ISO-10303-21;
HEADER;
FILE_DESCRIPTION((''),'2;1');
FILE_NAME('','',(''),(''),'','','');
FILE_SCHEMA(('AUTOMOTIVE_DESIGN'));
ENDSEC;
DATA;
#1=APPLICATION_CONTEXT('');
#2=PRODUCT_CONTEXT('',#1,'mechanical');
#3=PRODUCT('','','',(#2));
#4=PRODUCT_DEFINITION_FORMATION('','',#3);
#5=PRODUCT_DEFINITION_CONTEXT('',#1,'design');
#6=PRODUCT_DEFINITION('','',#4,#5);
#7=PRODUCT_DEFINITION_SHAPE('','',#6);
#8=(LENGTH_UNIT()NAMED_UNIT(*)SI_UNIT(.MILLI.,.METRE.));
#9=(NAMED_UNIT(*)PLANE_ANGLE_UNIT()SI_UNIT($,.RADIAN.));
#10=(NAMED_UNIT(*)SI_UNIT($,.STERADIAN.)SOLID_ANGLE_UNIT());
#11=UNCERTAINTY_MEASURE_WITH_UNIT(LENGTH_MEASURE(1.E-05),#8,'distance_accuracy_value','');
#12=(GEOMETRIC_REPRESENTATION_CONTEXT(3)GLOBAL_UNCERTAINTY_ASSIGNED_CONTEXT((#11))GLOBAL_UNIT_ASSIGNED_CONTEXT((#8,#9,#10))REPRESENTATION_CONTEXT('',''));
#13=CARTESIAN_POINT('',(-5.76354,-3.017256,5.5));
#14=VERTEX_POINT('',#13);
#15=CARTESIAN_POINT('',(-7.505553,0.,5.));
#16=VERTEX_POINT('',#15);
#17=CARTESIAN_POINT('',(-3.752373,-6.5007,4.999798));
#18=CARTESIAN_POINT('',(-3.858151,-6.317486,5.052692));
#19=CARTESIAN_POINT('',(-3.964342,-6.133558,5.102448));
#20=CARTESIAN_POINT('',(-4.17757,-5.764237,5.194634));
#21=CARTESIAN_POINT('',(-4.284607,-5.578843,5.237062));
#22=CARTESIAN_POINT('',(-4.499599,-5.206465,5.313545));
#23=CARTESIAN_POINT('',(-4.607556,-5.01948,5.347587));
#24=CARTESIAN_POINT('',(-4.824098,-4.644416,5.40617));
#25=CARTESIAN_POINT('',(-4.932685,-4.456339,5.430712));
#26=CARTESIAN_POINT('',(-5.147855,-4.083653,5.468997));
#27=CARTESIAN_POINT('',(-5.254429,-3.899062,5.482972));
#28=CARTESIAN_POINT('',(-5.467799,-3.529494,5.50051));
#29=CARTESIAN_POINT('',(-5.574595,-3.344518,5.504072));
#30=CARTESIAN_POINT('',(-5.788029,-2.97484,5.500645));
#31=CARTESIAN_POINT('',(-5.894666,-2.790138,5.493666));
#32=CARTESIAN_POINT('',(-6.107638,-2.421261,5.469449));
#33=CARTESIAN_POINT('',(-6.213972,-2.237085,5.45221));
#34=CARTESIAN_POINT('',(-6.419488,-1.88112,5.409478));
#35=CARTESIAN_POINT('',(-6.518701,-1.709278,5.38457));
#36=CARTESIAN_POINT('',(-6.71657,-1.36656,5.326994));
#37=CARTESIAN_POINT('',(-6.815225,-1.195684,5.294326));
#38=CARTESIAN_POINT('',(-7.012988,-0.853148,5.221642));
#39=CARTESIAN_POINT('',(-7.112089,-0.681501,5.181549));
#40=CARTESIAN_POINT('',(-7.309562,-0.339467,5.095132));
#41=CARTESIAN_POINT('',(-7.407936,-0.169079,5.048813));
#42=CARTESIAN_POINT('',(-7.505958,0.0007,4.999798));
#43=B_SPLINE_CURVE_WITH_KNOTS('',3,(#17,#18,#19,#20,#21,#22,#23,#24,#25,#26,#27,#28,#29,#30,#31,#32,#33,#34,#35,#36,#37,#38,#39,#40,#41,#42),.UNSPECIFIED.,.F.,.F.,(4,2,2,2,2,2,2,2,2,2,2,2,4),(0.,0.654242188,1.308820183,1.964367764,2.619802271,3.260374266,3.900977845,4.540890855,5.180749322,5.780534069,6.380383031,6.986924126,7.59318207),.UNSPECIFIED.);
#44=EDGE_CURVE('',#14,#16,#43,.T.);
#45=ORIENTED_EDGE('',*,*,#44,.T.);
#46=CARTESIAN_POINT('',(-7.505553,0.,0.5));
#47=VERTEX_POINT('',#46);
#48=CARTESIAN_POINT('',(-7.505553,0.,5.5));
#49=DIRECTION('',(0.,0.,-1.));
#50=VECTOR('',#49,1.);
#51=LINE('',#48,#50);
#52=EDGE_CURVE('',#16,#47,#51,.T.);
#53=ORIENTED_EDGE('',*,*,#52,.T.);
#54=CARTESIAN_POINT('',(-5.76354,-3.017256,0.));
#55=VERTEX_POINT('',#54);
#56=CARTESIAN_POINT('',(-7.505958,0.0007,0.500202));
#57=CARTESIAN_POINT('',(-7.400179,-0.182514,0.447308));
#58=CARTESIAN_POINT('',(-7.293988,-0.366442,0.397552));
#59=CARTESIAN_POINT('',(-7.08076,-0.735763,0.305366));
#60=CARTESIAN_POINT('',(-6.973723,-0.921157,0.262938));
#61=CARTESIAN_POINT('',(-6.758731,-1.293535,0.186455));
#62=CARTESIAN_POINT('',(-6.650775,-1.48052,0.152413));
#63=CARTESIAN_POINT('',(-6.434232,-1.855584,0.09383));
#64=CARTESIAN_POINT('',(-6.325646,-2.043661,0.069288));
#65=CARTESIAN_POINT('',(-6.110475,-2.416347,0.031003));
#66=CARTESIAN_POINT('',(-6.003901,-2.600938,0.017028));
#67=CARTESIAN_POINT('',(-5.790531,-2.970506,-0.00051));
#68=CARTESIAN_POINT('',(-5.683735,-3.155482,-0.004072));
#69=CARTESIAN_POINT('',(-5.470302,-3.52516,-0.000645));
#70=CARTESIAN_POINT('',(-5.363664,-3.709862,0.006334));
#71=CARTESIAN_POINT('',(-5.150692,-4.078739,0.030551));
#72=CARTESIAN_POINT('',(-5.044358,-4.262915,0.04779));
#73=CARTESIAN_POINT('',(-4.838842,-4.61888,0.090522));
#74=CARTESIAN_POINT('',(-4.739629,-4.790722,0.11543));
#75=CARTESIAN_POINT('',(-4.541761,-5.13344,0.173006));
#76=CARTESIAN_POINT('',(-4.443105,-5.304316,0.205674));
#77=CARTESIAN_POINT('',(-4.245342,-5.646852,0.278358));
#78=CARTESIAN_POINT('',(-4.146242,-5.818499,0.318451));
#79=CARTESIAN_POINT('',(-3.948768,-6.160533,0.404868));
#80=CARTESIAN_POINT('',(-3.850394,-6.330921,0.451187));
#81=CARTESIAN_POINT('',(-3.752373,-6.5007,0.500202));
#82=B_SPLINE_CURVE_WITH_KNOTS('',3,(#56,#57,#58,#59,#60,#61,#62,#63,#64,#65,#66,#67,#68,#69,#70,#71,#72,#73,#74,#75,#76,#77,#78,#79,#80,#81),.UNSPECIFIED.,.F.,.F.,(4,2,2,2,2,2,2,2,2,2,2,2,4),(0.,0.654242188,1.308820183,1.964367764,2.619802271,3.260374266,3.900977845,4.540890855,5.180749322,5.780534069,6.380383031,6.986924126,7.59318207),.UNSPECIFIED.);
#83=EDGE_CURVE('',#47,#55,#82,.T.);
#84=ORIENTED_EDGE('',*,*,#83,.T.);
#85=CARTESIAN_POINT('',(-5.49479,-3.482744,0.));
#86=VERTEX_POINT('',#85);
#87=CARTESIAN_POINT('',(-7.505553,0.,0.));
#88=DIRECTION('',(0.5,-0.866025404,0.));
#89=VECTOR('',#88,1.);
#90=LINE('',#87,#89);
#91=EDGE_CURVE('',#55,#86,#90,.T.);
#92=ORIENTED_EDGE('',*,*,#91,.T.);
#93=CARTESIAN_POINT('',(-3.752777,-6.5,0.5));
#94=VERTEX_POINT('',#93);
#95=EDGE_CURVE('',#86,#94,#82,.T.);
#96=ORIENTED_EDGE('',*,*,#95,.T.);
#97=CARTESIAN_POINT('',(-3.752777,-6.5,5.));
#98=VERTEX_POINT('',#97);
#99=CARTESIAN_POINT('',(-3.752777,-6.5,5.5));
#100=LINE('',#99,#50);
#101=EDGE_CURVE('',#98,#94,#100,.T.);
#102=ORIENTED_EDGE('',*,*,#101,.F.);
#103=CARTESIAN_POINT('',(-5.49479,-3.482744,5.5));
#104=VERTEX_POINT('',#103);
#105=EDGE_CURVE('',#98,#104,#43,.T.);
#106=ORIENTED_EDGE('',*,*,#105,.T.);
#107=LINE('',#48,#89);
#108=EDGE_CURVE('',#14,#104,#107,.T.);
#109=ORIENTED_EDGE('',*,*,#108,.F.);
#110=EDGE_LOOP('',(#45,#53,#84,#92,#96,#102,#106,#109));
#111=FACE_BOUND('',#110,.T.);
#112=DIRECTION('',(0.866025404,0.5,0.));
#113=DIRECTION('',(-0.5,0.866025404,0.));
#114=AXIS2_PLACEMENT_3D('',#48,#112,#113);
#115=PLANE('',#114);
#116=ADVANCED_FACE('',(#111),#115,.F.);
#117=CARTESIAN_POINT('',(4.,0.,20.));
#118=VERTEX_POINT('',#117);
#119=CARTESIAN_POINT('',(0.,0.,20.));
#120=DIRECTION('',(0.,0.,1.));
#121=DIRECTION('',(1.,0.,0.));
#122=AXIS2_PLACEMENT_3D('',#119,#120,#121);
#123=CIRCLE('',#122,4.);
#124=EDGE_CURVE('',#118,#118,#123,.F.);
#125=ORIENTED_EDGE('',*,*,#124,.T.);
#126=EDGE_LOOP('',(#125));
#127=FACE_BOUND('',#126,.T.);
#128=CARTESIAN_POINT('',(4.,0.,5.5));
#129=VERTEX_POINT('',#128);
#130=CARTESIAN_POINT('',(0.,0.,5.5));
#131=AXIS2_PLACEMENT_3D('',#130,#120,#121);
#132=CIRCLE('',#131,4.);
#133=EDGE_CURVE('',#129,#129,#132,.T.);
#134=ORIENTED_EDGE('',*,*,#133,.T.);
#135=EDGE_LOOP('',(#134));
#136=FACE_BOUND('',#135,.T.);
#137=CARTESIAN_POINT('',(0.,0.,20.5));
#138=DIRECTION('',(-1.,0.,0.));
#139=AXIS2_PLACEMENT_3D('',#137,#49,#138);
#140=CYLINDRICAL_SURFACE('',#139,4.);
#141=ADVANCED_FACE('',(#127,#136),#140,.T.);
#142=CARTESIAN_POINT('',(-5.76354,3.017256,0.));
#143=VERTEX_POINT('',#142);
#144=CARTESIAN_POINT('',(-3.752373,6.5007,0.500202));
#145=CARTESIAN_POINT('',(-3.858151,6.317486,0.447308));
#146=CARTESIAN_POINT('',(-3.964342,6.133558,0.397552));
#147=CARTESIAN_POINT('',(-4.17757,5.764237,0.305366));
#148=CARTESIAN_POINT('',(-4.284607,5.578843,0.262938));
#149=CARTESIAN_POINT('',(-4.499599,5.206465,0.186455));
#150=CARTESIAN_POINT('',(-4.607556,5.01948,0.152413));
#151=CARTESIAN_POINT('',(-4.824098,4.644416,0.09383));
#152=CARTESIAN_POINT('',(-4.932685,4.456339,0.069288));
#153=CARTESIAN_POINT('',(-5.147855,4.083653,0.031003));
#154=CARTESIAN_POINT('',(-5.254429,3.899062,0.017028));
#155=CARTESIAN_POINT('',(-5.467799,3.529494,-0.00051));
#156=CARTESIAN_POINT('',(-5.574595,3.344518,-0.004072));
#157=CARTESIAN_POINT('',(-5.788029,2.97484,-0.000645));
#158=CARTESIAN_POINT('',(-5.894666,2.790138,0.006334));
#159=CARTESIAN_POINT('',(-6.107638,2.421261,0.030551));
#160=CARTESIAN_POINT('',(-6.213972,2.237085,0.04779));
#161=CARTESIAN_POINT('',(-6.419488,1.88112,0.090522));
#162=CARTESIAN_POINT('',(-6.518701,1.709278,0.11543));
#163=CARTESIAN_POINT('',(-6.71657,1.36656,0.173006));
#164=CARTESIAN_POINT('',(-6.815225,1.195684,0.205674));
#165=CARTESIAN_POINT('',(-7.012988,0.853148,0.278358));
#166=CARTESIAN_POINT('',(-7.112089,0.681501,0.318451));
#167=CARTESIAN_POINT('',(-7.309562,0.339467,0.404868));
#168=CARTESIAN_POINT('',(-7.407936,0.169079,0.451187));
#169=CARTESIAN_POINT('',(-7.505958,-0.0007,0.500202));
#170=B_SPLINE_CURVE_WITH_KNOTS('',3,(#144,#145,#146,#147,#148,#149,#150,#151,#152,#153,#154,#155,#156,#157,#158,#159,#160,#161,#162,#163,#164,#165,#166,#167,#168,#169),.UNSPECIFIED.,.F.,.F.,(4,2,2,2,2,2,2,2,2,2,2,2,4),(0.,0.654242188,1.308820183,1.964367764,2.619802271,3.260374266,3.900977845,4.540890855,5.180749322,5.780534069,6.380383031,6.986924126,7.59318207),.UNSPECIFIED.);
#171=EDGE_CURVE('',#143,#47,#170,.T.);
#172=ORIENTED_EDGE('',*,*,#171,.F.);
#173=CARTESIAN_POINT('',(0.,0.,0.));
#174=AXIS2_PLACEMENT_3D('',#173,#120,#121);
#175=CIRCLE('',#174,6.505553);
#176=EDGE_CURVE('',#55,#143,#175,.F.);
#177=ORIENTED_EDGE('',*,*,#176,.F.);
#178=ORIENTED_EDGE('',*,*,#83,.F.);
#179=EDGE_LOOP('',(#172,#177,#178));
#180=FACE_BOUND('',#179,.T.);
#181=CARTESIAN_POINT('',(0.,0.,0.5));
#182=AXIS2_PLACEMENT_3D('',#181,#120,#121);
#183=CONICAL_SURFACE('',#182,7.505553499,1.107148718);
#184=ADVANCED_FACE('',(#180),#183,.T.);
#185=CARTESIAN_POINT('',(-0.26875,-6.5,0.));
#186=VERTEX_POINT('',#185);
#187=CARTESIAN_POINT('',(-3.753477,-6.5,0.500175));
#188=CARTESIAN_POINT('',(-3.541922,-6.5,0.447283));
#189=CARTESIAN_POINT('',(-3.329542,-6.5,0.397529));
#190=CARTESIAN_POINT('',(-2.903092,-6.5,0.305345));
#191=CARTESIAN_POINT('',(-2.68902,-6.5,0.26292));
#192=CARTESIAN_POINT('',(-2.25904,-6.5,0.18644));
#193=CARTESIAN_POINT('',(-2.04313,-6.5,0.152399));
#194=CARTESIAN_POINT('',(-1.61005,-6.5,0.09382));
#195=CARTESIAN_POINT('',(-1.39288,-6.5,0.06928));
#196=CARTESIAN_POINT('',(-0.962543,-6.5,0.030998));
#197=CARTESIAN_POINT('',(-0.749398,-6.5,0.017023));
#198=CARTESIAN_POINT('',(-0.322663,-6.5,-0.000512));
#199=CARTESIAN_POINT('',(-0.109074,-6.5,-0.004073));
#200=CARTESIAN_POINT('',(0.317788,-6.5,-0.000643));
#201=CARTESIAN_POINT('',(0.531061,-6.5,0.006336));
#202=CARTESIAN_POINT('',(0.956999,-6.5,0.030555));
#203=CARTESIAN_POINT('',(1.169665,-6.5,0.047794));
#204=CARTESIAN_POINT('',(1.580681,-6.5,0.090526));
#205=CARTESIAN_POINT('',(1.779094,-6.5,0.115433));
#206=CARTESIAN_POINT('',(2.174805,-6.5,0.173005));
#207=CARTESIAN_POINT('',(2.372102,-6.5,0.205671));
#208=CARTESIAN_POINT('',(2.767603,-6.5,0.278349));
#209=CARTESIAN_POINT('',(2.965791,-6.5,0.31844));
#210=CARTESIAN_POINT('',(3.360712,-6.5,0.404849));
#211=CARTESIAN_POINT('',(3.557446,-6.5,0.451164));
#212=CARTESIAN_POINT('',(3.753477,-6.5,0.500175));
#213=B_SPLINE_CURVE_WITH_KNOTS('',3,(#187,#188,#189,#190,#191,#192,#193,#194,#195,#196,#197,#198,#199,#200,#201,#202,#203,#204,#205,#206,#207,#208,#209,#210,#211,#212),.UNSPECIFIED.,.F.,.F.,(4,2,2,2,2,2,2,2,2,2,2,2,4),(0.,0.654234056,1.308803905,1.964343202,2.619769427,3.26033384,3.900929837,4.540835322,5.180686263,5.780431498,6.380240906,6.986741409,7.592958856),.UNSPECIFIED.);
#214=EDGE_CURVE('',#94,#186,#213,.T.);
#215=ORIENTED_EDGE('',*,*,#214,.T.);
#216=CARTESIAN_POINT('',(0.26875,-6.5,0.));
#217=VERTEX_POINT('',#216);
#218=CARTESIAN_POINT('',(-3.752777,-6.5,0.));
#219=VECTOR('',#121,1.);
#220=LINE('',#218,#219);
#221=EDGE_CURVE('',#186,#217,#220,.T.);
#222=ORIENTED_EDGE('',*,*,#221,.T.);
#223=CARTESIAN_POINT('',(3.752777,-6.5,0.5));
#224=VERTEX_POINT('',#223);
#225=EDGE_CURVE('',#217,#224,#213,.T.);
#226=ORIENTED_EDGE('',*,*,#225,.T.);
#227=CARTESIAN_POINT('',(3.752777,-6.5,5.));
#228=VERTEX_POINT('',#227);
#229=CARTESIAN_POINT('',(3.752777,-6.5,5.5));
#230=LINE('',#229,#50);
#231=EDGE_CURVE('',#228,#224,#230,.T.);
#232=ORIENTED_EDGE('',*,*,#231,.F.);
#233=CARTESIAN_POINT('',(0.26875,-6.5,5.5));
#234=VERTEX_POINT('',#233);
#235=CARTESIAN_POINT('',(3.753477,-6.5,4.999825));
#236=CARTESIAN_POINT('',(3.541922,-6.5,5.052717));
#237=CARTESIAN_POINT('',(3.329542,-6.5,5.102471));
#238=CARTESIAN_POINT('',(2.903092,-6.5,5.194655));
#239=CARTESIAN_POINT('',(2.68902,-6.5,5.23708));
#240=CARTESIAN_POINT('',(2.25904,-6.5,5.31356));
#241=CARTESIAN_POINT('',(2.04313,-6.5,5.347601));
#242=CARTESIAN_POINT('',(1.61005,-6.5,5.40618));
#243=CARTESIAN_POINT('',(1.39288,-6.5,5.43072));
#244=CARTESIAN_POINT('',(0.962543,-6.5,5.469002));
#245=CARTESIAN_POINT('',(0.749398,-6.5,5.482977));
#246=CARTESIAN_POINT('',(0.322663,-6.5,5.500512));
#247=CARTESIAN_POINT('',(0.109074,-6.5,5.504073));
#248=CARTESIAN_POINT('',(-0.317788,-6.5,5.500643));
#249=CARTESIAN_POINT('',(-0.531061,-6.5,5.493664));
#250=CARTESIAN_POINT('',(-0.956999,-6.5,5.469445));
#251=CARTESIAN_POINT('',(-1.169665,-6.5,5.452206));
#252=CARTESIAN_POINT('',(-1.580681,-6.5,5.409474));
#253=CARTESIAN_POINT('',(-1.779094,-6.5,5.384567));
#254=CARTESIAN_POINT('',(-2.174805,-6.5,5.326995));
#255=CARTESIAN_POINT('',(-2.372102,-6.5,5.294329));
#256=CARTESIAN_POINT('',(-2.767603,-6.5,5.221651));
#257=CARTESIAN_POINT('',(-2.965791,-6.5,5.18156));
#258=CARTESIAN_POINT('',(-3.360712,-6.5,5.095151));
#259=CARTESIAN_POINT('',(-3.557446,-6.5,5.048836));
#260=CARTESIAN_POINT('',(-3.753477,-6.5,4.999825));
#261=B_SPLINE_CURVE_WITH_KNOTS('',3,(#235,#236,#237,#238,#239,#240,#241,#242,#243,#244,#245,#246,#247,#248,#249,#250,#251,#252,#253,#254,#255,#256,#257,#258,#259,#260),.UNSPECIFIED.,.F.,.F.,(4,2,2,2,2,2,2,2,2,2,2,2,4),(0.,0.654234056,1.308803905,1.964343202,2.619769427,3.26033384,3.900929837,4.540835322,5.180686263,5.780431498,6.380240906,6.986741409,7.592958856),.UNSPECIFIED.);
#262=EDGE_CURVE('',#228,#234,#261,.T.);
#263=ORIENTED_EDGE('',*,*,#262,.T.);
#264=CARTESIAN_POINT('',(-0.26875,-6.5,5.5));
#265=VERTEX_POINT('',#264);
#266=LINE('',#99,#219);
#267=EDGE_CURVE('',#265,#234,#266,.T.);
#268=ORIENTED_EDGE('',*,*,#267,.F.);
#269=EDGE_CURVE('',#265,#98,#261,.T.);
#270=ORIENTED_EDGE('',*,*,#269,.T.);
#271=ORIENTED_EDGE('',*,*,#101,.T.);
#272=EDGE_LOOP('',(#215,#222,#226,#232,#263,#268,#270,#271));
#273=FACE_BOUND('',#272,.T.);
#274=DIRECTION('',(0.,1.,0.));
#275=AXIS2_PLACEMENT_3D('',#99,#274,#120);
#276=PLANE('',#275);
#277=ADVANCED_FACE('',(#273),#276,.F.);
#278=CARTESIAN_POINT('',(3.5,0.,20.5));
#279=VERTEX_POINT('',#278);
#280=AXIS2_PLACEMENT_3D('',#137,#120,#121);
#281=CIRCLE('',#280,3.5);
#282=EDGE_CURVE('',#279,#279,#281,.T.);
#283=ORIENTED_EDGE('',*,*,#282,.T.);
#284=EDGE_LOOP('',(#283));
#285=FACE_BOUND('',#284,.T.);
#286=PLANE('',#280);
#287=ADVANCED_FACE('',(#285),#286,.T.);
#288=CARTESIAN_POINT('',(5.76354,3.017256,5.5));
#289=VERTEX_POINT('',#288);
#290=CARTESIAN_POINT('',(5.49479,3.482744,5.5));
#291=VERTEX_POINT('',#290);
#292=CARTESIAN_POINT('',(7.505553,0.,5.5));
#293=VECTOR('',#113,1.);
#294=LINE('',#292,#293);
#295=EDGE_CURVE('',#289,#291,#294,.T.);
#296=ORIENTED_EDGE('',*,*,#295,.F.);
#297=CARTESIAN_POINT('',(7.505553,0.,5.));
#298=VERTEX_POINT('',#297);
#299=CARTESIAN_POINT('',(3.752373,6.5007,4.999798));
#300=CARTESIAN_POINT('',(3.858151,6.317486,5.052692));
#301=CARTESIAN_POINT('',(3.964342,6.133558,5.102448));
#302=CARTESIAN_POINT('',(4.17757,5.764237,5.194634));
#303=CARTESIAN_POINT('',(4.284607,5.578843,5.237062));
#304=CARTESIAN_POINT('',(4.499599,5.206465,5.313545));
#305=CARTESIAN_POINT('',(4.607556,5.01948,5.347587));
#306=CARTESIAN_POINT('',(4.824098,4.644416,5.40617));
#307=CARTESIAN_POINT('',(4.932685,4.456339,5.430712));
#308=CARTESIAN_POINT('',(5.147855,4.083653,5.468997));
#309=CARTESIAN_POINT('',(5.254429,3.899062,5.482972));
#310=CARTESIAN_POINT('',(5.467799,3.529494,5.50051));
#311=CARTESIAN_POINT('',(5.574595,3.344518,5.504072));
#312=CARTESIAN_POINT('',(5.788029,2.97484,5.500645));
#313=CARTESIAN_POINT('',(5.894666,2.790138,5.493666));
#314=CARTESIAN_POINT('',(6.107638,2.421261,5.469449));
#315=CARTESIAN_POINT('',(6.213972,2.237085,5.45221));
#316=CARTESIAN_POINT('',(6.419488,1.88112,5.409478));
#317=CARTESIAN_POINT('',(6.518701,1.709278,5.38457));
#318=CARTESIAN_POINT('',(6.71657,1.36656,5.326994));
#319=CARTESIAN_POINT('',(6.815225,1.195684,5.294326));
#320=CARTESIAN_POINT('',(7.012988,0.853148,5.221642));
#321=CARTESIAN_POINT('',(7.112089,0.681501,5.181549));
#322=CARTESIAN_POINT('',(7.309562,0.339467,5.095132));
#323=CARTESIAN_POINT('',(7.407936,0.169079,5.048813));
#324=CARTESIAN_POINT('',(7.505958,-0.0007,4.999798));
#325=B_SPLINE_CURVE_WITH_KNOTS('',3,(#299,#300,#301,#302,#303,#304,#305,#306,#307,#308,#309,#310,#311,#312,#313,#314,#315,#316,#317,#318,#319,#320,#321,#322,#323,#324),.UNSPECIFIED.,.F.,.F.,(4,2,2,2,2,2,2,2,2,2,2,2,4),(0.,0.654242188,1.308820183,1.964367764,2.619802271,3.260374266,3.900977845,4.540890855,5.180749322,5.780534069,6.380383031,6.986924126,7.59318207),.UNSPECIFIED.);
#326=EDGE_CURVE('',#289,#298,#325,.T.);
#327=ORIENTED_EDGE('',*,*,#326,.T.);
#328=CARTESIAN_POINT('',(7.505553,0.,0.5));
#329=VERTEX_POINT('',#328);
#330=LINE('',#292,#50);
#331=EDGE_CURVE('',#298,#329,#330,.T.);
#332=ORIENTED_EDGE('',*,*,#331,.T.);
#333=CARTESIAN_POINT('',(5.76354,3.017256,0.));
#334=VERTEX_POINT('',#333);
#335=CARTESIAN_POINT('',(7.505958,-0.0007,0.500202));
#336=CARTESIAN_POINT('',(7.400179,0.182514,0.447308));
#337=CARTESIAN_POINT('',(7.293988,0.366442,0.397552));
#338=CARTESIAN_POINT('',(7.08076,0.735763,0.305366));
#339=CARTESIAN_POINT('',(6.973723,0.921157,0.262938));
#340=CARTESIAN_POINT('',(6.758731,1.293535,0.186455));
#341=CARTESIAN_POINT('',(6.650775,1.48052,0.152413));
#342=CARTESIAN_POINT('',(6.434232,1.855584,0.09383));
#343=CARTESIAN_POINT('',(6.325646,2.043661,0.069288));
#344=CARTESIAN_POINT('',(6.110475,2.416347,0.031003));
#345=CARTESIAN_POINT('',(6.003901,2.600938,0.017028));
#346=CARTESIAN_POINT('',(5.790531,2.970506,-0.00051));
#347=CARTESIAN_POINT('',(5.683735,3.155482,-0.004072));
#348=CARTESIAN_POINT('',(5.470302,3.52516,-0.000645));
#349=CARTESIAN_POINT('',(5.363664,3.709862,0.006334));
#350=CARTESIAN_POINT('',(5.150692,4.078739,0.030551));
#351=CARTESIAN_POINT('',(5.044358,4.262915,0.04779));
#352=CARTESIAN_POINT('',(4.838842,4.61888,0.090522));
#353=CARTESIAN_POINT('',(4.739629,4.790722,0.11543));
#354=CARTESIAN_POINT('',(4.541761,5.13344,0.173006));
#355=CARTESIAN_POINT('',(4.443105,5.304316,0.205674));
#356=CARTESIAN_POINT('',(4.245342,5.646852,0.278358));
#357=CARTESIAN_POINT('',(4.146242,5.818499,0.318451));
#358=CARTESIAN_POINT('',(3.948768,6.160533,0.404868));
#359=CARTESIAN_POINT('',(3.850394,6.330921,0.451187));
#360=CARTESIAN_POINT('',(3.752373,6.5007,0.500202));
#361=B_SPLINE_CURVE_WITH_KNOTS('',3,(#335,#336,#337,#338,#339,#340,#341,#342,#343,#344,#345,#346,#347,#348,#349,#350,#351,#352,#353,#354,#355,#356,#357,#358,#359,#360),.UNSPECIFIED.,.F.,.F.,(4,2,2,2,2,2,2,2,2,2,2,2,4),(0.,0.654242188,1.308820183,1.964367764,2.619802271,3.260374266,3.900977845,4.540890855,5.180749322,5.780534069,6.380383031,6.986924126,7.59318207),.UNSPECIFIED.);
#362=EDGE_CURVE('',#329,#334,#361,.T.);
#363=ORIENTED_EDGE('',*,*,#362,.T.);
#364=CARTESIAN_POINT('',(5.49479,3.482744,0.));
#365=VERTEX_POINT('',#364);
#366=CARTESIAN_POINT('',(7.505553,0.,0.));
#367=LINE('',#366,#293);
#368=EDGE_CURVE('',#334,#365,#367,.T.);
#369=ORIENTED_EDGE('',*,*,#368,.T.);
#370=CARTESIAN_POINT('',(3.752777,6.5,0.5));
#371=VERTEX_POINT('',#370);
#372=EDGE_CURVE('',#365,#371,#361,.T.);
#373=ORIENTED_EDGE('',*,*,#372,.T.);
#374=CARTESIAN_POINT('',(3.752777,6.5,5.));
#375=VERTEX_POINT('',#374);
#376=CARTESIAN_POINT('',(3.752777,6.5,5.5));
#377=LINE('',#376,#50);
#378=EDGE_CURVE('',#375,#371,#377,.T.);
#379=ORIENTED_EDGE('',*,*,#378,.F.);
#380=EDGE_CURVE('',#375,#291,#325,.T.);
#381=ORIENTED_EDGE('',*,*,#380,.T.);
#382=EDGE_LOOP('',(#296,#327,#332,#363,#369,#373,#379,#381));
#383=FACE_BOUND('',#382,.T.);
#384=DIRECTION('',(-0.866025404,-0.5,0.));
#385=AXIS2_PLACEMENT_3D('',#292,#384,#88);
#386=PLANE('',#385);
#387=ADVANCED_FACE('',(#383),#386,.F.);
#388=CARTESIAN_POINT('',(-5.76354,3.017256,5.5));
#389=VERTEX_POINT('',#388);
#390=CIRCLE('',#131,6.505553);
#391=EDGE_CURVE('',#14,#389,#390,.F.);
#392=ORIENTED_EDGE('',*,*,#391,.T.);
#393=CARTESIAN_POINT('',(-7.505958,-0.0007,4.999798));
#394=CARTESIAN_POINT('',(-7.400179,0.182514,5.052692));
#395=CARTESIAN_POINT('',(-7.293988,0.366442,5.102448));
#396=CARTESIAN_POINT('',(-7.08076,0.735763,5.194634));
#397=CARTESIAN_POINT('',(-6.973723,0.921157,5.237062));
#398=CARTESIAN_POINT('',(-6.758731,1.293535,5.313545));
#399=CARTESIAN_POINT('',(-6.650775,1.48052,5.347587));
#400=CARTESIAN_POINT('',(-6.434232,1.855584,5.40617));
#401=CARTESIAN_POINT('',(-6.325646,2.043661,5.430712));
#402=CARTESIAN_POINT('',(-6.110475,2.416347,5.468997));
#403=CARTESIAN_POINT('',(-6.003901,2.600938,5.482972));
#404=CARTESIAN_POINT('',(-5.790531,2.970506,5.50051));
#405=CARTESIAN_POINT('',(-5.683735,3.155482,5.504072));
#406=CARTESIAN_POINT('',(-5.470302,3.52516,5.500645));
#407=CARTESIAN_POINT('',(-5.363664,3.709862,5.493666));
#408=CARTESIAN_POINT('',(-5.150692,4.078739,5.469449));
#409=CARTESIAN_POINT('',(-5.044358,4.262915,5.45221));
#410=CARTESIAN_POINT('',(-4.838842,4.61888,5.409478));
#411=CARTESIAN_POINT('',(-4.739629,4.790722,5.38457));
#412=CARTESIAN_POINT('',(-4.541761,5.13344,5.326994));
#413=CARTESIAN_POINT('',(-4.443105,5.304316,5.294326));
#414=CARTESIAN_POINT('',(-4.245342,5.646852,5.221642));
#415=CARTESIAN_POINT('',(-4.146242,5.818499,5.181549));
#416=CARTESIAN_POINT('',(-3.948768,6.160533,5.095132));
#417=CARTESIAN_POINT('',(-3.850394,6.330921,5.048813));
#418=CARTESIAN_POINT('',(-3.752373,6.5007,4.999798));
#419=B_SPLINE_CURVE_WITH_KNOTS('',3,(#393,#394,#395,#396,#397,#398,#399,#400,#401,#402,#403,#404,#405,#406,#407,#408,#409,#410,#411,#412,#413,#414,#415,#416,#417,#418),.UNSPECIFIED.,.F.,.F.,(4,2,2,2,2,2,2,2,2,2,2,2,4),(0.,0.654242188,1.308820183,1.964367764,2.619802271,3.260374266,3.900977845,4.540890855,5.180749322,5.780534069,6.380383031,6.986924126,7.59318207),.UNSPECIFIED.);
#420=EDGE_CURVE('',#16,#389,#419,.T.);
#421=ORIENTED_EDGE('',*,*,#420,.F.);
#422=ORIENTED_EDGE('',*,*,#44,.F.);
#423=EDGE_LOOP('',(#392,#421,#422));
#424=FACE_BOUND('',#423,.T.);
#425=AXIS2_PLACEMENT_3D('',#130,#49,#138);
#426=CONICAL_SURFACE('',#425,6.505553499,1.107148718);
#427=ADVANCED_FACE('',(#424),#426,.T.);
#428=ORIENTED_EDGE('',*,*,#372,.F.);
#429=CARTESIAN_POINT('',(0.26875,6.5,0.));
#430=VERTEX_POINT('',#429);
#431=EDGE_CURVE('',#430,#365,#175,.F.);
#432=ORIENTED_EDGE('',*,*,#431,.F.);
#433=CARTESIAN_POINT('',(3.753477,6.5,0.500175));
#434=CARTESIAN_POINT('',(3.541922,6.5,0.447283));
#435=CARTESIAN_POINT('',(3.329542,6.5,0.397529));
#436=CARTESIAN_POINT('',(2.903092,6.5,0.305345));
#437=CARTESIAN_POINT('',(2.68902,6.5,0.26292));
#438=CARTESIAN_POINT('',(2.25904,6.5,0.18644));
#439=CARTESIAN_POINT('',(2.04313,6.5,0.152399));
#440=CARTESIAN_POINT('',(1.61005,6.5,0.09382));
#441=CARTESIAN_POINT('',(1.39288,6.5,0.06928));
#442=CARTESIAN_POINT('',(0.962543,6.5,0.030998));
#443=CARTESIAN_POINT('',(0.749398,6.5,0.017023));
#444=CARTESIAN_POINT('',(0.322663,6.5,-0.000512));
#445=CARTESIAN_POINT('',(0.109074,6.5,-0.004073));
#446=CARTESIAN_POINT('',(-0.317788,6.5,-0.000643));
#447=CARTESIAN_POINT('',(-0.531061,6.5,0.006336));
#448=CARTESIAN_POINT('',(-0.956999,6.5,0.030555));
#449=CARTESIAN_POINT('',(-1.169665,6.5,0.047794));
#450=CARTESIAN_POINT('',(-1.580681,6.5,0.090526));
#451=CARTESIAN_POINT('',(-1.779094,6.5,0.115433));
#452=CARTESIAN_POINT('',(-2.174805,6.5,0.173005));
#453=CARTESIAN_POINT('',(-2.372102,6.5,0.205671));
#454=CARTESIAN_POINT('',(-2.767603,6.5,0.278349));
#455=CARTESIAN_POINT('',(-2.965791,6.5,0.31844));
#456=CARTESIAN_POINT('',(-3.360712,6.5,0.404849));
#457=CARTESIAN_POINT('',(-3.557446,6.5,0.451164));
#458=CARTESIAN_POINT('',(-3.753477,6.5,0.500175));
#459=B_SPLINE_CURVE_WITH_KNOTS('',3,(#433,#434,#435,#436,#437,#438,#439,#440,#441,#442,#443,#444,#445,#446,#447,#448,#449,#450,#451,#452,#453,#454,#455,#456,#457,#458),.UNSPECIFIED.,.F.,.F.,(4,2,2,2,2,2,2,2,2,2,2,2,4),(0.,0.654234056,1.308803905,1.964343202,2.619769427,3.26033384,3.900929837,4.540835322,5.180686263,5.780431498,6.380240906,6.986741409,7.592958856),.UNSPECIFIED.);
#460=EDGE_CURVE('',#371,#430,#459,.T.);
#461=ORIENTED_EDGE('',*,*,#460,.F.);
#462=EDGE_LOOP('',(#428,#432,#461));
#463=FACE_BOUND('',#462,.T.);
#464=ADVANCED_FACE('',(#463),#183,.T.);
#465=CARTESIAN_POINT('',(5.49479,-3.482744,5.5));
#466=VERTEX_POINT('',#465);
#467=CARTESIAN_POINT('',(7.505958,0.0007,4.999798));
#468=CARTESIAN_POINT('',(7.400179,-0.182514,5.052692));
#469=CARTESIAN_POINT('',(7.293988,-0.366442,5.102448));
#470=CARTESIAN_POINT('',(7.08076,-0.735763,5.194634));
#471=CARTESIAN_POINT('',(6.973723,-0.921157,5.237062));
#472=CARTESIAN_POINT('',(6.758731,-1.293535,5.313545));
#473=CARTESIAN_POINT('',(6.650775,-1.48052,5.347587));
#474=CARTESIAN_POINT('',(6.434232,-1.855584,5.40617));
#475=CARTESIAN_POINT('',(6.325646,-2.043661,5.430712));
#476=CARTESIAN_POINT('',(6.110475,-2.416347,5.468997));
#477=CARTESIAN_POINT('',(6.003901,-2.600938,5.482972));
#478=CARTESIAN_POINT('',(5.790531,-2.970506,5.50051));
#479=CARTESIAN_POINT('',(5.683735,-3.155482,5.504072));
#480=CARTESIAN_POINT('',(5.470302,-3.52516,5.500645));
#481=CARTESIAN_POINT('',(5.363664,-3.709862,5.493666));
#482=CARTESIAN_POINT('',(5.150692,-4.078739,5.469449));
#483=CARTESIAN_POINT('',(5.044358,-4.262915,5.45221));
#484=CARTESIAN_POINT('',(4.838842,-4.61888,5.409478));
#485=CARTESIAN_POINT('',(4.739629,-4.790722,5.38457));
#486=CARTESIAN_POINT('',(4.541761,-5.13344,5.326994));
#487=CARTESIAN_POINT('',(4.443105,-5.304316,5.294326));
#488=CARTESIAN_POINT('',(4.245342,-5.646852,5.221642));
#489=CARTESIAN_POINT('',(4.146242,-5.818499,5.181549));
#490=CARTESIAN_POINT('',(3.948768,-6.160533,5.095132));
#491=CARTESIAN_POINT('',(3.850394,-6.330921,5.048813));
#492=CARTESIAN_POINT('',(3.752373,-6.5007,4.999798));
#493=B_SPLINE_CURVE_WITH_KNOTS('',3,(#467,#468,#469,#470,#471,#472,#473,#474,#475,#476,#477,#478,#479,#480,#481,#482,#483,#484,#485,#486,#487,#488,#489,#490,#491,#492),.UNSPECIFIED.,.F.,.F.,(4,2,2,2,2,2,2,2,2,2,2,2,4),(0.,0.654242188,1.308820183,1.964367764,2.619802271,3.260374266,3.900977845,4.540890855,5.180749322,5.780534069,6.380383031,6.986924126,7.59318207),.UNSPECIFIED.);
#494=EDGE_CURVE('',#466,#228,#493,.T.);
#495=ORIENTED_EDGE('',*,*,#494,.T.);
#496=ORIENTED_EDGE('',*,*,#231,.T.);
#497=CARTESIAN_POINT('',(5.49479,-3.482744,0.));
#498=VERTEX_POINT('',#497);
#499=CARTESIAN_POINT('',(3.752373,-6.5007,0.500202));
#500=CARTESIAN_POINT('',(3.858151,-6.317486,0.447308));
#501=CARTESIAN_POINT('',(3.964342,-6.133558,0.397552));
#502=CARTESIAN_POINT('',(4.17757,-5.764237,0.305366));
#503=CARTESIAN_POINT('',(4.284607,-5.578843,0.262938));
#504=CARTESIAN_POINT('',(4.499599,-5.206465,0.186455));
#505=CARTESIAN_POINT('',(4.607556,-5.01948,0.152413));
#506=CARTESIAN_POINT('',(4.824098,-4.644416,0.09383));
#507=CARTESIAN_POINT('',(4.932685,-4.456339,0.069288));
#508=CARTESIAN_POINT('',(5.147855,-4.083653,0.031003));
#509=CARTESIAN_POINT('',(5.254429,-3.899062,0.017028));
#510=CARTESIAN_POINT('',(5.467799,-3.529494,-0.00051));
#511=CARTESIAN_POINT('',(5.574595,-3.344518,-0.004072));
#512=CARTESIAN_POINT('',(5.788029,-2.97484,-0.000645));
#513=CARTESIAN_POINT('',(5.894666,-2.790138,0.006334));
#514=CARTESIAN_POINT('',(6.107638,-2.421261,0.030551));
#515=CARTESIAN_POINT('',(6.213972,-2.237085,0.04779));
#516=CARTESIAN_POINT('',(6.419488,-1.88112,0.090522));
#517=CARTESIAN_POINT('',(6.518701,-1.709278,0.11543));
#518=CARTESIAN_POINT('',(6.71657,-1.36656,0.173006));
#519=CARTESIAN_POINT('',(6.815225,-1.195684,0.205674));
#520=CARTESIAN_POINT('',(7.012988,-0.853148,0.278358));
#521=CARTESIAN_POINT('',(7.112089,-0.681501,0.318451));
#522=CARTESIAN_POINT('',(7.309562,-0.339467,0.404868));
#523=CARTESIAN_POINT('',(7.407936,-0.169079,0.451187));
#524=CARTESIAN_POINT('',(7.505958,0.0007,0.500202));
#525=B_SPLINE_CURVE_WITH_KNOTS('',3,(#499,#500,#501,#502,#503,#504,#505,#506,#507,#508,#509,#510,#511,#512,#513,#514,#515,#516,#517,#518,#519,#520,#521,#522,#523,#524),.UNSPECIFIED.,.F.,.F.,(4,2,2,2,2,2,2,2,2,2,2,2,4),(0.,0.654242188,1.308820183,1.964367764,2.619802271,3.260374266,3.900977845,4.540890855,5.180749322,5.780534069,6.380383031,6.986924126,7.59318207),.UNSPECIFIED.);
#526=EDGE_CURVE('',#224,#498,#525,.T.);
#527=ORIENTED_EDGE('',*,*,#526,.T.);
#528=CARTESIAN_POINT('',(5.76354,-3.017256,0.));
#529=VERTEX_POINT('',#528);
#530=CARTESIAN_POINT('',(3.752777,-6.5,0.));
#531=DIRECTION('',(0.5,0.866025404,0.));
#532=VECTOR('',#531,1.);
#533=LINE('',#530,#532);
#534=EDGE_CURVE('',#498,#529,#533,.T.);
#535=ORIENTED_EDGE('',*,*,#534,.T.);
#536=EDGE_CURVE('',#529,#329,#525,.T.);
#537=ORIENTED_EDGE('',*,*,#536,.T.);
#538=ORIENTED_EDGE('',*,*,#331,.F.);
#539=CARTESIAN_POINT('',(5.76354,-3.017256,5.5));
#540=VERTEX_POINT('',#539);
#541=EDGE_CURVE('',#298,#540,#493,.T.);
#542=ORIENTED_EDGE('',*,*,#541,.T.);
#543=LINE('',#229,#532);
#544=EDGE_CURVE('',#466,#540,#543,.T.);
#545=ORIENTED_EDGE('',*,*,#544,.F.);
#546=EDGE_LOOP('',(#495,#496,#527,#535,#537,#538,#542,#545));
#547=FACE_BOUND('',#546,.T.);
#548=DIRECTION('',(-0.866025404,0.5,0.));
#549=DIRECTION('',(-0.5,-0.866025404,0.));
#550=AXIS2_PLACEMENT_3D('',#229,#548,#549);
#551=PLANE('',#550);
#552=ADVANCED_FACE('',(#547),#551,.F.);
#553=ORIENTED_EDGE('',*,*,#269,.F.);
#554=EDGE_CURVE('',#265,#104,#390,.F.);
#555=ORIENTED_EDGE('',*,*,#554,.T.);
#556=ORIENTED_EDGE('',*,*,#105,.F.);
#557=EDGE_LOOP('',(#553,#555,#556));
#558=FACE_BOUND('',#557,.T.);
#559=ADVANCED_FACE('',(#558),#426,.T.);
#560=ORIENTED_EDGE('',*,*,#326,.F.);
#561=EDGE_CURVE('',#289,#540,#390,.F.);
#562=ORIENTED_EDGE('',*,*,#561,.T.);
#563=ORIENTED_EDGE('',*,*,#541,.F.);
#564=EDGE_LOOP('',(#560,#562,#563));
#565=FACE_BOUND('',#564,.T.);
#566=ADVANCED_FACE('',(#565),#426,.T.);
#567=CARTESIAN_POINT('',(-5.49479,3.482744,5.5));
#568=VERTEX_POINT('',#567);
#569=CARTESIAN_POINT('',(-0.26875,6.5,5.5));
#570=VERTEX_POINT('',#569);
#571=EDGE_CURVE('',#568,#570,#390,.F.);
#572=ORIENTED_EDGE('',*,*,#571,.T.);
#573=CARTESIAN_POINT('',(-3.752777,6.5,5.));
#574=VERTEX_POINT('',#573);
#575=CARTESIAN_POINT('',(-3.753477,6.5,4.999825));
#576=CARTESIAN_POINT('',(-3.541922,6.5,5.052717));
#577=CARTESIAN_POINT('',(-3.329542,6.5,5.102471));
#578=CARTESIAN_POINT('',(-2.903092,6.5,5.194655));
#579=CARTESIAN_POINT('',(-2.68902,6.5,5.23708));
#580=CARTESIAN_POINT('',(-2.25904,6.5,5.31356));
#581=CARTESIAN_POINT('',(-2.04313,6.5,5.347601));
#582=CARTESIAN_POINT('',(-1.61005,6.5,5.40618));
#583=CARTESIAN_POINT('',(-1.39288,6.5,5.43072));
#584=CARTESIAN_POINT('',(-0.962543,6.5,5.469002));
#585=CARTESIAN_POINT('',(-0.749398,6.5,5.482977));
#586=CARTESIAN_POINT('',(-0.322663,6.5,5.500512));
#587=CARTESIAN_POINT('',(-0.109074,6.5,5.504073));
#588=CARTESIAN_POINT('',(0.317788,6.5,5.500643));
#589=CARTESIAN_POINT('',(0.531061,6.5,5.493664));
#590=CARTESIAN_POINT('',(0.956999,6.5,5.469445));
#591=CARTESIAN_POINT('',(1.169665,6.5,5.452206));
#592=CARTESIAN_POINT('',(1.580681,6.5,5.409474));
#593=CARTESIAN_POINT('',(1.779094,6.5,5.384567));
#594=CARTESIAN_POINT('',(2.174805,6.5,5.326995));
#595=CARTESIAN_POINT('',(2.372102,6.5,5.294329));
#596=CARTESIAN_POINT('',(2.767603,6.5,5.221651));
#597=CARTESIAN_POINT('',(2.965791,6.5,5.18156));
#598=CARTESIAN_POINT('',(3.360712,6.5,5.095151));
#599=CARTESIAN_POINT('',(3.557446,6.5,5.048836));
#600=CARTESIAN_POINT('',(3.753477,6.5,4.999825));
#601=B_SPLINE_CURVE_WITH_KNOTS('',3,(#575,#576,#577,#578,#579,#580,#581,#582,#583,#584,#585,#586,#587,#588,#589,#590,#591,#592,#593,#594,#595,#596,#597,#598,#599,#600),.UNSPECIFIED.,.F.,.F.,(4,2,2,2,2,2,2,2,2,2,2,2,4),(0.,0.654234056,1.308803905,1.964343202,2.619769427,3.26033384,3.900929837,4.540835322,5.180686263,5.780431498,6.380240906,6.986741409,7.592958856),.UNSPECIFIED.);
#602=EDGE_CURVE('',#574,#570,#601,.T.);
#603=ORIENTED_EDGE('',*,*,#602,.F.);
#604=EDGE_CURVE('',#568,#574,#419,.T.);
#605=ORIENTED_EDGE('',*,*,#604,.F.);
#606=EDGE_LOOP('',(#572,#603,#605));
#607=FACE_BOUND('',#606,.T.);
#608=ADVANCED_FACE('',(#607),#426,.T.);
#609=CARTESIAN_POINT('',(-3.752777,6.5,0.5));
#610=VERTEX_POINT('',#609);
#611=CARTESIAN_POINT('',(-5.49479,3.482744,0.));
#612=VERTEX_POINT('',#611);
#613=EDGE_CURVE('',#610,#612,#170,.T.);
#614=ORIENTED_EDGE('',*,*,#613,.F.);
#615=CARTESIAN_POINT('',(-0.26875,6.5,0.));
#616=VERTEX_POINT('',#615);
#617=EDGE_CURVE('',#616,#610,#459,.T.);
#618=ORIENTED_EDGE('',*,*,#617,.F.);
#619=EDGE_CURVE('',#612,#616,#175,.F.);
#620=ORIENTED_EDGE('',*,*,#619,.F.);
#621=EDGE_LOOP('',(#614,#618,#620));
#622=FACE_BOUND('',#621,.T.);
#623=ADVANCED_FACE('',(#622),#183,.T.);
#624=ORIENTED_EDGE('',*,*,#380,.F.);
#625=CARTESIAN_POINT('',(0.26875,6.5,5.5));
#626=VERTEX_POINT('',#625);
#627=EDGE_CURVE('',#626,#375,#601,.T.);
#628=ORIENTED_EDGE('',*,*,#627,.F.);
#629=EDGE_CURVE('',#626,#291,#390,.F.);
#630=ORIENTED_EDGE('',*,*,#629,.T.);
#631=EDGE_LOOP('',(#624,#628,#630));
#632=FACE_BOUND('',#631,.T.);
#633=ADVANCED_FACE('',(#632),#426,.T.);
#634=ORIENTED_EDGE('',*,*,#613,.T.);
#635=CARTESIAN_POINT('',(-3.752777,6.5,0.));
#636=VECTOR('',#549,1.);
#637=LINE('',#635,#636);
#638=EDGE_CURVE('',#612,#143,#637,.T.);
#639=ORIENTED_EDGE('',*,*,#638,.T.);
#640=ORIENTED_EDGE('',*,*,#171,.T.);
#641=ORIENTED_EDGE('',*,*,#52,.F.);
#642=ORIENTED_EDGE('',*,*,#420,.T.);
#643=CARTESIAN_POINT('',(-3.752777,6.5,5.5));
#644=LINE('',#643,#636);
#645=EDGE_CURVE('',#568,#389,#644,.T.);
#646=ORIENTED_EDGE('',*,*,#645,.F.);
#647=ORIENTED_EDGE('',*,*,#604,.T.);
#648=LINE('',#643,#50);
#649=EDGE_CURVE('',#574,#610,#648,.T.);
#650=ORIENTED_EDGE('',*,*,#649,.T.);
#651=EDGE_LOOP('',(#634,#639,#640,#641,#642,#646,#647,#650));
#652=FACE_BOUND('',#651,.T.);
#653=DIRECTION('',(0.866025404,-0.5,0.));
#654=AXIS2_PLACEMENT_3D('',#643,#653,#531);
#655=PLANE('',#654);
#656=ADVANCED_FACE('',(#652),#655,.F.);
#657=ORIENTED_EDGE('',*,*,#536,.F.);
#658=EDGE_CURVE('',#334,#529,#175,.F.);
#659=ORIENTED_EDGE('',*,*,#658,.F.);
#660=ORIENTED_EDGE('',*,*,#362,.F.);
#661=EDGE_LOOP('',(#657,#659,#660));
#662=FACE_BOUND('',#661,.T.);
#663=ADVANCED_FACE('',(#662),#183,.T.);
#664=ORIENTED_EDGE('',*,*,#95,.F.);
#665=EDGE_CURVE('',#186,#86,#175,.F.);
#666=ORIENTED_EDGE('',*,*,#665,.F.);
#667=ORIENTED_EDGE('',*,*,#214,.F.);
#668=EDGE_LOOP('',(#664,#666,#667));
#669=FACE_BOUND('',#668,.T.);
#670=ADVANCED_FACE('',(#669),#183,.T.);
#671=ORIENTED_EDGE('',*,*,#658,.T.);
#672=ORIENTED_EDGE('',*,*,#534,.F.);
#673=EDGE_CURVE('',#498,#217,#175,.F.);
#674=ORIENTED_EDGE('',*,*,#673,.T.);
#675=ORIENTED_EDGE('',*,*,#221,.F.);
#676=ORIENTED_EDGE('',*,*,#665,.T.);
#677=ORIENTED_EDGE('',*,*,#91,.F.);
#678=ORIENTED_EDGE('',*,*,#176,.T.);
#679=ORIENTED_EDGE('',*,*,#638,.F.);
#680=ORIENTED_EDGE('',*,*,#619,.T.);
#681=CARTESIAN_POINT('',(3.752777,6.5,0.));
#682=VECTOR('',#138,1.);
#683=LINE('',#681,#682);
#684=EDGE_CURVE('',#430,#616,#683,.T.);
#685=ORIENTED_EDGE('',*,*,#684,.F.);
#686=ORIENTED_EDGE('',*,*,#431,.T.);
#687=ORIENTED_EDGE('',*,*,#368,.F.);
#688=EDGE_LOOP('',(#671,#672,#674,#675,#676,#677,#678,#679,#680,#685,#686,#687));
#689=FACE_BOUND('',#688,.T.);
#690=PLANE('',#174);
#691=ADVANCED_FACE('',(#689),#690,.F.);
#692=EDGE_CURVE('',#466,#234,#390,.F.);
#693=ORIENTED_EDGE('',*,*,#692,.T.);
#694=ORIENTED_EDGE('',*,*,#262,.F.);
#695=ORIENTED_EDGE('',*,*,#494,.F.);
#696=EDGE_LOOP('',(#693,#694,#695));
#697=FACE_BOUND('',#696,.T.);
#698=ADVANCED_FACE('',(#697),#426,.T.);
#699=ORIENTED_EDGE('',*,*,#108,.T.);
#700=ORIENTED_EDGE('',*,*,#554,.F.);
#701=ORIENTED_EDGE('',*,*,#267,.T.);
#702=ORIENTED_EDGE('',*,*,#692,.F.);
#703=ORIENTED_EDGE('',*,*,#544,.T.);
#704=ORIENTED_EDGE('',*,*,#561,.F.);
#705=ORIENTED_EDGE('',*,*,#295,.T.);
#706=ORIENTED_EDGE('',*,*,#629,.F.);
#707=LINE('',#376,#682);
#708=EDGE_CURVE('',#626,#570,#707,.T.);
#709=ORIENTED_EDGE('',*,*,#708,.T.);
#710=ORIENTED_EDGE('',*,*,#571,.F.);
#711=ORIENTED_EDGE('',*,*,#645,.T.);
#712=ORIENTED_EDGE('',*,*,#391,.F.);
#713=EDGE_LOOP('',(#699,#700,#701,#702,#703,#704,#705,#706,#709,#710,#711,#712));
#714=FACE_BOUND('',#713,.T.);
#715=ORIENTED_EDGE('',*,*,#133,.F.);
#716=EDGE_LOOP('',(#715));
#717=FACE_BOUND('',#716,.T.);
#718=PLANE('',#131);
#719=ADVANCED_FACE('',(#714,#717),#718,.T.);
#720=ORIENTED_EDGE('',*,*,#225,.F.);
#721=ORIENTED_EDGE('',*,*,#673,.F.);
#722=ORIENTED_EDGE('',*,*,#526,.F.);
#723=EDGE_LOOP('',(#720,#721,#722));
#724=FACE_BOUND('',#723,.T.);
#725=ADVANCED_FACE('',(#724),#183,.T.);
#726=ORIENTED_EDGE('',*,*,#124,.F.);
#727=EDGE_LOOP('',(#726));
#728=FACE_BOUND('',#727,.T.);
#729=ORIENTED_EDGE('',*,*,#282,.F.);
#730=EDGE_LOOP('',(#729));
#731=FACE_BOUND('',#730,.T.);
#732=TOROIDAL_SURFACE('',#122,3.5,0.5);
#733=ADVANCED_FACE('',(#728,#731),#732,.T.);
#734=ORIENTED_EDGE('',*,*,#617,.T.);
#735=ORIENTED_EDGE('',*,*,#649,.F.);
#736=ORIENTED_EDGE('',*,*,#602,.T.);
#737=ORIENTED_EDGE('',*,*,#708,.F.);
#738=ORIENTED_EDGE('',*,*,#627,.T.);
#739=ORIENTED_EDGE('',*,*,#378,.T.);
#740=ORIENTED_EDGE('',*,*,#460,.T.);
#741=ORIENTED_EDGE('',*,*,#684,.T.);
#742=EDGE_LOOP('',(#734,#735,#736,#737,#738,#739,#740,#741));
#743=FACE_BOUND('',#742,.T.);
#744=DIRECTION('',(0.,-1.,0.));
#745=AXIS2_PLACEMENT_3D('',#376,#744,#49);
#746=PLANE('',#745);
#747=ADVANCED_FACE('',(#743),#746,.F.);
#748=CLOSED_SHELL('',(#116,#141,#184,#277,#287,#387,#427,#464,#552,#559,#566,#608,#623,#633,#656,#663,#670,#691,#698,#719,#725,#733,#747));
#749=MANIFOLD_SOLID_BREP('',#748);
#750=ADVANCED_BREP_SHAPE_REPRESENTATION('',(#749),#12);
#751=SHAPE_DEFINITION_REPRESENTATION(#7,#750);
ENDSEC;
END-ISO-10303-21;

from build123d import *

# Parameters (mm, degrees)
Y_KSEKLIK_EKSTR_ZYON1_DEPTH = 5.5
IZIM2_R                     = 4
Y_KSEKLIK_EKSTR_ZYON2_DEPTH = 15
RADYUS1_R                   = 0.5


with BuildPart() as part:
    # Çizim1 → Yükseklik-Ekstrüzyon1 (new body)
    with BuildSketch(Plane.XY):
        Polygon((7.505553499, 0), (3.75277675, 6.5), (-3.75277675, 6.5), (-7.505553499, 0), (-3.75277675, -6.5), (3.75277675, -6.5), align=None)
    extrude(amount=Y_KSEKLIK_EKSTR_ZYON1_DEPTH)

    # Çizim2 → Yükseklik-Ekstrüzyon2 (add)
    with BuildSketch(Plane.XY.offset(5.5)):
        Circle(IZIM2_R)
    extrude(amount=Y_KSEKLIK_EKSTR_ZYON2_DEPTH)

    # Çizim3 → Kes-Döndür1 (revolve, cut)
    with BuildSketch(Plane(origin=(0, 0, 0), x_dir=(1, 0, 0), z_dir=(0, 1, 0))):
        Polygon((-7.505553499, 0), (-6.505553499, 0), (-7.505553499, -0.5), align=None)
        Polygon((-7.505553499, -5.5), (-7.505553499, -5), (-6.505553499, -5.5), align=None)
    revolve(axis=Axis((0, 0, 0), (0, 0, 1)), mode=Mode.SUBTRACT)

    # Radyus1
    radyus1_edges = [part.edges().sort_by_distance(p)[0] for p in [
        (-4, 0, 20.5),
    ]]
    fillet(radyus1_edges, radius=RADYUS1_R)


solid = part.part
